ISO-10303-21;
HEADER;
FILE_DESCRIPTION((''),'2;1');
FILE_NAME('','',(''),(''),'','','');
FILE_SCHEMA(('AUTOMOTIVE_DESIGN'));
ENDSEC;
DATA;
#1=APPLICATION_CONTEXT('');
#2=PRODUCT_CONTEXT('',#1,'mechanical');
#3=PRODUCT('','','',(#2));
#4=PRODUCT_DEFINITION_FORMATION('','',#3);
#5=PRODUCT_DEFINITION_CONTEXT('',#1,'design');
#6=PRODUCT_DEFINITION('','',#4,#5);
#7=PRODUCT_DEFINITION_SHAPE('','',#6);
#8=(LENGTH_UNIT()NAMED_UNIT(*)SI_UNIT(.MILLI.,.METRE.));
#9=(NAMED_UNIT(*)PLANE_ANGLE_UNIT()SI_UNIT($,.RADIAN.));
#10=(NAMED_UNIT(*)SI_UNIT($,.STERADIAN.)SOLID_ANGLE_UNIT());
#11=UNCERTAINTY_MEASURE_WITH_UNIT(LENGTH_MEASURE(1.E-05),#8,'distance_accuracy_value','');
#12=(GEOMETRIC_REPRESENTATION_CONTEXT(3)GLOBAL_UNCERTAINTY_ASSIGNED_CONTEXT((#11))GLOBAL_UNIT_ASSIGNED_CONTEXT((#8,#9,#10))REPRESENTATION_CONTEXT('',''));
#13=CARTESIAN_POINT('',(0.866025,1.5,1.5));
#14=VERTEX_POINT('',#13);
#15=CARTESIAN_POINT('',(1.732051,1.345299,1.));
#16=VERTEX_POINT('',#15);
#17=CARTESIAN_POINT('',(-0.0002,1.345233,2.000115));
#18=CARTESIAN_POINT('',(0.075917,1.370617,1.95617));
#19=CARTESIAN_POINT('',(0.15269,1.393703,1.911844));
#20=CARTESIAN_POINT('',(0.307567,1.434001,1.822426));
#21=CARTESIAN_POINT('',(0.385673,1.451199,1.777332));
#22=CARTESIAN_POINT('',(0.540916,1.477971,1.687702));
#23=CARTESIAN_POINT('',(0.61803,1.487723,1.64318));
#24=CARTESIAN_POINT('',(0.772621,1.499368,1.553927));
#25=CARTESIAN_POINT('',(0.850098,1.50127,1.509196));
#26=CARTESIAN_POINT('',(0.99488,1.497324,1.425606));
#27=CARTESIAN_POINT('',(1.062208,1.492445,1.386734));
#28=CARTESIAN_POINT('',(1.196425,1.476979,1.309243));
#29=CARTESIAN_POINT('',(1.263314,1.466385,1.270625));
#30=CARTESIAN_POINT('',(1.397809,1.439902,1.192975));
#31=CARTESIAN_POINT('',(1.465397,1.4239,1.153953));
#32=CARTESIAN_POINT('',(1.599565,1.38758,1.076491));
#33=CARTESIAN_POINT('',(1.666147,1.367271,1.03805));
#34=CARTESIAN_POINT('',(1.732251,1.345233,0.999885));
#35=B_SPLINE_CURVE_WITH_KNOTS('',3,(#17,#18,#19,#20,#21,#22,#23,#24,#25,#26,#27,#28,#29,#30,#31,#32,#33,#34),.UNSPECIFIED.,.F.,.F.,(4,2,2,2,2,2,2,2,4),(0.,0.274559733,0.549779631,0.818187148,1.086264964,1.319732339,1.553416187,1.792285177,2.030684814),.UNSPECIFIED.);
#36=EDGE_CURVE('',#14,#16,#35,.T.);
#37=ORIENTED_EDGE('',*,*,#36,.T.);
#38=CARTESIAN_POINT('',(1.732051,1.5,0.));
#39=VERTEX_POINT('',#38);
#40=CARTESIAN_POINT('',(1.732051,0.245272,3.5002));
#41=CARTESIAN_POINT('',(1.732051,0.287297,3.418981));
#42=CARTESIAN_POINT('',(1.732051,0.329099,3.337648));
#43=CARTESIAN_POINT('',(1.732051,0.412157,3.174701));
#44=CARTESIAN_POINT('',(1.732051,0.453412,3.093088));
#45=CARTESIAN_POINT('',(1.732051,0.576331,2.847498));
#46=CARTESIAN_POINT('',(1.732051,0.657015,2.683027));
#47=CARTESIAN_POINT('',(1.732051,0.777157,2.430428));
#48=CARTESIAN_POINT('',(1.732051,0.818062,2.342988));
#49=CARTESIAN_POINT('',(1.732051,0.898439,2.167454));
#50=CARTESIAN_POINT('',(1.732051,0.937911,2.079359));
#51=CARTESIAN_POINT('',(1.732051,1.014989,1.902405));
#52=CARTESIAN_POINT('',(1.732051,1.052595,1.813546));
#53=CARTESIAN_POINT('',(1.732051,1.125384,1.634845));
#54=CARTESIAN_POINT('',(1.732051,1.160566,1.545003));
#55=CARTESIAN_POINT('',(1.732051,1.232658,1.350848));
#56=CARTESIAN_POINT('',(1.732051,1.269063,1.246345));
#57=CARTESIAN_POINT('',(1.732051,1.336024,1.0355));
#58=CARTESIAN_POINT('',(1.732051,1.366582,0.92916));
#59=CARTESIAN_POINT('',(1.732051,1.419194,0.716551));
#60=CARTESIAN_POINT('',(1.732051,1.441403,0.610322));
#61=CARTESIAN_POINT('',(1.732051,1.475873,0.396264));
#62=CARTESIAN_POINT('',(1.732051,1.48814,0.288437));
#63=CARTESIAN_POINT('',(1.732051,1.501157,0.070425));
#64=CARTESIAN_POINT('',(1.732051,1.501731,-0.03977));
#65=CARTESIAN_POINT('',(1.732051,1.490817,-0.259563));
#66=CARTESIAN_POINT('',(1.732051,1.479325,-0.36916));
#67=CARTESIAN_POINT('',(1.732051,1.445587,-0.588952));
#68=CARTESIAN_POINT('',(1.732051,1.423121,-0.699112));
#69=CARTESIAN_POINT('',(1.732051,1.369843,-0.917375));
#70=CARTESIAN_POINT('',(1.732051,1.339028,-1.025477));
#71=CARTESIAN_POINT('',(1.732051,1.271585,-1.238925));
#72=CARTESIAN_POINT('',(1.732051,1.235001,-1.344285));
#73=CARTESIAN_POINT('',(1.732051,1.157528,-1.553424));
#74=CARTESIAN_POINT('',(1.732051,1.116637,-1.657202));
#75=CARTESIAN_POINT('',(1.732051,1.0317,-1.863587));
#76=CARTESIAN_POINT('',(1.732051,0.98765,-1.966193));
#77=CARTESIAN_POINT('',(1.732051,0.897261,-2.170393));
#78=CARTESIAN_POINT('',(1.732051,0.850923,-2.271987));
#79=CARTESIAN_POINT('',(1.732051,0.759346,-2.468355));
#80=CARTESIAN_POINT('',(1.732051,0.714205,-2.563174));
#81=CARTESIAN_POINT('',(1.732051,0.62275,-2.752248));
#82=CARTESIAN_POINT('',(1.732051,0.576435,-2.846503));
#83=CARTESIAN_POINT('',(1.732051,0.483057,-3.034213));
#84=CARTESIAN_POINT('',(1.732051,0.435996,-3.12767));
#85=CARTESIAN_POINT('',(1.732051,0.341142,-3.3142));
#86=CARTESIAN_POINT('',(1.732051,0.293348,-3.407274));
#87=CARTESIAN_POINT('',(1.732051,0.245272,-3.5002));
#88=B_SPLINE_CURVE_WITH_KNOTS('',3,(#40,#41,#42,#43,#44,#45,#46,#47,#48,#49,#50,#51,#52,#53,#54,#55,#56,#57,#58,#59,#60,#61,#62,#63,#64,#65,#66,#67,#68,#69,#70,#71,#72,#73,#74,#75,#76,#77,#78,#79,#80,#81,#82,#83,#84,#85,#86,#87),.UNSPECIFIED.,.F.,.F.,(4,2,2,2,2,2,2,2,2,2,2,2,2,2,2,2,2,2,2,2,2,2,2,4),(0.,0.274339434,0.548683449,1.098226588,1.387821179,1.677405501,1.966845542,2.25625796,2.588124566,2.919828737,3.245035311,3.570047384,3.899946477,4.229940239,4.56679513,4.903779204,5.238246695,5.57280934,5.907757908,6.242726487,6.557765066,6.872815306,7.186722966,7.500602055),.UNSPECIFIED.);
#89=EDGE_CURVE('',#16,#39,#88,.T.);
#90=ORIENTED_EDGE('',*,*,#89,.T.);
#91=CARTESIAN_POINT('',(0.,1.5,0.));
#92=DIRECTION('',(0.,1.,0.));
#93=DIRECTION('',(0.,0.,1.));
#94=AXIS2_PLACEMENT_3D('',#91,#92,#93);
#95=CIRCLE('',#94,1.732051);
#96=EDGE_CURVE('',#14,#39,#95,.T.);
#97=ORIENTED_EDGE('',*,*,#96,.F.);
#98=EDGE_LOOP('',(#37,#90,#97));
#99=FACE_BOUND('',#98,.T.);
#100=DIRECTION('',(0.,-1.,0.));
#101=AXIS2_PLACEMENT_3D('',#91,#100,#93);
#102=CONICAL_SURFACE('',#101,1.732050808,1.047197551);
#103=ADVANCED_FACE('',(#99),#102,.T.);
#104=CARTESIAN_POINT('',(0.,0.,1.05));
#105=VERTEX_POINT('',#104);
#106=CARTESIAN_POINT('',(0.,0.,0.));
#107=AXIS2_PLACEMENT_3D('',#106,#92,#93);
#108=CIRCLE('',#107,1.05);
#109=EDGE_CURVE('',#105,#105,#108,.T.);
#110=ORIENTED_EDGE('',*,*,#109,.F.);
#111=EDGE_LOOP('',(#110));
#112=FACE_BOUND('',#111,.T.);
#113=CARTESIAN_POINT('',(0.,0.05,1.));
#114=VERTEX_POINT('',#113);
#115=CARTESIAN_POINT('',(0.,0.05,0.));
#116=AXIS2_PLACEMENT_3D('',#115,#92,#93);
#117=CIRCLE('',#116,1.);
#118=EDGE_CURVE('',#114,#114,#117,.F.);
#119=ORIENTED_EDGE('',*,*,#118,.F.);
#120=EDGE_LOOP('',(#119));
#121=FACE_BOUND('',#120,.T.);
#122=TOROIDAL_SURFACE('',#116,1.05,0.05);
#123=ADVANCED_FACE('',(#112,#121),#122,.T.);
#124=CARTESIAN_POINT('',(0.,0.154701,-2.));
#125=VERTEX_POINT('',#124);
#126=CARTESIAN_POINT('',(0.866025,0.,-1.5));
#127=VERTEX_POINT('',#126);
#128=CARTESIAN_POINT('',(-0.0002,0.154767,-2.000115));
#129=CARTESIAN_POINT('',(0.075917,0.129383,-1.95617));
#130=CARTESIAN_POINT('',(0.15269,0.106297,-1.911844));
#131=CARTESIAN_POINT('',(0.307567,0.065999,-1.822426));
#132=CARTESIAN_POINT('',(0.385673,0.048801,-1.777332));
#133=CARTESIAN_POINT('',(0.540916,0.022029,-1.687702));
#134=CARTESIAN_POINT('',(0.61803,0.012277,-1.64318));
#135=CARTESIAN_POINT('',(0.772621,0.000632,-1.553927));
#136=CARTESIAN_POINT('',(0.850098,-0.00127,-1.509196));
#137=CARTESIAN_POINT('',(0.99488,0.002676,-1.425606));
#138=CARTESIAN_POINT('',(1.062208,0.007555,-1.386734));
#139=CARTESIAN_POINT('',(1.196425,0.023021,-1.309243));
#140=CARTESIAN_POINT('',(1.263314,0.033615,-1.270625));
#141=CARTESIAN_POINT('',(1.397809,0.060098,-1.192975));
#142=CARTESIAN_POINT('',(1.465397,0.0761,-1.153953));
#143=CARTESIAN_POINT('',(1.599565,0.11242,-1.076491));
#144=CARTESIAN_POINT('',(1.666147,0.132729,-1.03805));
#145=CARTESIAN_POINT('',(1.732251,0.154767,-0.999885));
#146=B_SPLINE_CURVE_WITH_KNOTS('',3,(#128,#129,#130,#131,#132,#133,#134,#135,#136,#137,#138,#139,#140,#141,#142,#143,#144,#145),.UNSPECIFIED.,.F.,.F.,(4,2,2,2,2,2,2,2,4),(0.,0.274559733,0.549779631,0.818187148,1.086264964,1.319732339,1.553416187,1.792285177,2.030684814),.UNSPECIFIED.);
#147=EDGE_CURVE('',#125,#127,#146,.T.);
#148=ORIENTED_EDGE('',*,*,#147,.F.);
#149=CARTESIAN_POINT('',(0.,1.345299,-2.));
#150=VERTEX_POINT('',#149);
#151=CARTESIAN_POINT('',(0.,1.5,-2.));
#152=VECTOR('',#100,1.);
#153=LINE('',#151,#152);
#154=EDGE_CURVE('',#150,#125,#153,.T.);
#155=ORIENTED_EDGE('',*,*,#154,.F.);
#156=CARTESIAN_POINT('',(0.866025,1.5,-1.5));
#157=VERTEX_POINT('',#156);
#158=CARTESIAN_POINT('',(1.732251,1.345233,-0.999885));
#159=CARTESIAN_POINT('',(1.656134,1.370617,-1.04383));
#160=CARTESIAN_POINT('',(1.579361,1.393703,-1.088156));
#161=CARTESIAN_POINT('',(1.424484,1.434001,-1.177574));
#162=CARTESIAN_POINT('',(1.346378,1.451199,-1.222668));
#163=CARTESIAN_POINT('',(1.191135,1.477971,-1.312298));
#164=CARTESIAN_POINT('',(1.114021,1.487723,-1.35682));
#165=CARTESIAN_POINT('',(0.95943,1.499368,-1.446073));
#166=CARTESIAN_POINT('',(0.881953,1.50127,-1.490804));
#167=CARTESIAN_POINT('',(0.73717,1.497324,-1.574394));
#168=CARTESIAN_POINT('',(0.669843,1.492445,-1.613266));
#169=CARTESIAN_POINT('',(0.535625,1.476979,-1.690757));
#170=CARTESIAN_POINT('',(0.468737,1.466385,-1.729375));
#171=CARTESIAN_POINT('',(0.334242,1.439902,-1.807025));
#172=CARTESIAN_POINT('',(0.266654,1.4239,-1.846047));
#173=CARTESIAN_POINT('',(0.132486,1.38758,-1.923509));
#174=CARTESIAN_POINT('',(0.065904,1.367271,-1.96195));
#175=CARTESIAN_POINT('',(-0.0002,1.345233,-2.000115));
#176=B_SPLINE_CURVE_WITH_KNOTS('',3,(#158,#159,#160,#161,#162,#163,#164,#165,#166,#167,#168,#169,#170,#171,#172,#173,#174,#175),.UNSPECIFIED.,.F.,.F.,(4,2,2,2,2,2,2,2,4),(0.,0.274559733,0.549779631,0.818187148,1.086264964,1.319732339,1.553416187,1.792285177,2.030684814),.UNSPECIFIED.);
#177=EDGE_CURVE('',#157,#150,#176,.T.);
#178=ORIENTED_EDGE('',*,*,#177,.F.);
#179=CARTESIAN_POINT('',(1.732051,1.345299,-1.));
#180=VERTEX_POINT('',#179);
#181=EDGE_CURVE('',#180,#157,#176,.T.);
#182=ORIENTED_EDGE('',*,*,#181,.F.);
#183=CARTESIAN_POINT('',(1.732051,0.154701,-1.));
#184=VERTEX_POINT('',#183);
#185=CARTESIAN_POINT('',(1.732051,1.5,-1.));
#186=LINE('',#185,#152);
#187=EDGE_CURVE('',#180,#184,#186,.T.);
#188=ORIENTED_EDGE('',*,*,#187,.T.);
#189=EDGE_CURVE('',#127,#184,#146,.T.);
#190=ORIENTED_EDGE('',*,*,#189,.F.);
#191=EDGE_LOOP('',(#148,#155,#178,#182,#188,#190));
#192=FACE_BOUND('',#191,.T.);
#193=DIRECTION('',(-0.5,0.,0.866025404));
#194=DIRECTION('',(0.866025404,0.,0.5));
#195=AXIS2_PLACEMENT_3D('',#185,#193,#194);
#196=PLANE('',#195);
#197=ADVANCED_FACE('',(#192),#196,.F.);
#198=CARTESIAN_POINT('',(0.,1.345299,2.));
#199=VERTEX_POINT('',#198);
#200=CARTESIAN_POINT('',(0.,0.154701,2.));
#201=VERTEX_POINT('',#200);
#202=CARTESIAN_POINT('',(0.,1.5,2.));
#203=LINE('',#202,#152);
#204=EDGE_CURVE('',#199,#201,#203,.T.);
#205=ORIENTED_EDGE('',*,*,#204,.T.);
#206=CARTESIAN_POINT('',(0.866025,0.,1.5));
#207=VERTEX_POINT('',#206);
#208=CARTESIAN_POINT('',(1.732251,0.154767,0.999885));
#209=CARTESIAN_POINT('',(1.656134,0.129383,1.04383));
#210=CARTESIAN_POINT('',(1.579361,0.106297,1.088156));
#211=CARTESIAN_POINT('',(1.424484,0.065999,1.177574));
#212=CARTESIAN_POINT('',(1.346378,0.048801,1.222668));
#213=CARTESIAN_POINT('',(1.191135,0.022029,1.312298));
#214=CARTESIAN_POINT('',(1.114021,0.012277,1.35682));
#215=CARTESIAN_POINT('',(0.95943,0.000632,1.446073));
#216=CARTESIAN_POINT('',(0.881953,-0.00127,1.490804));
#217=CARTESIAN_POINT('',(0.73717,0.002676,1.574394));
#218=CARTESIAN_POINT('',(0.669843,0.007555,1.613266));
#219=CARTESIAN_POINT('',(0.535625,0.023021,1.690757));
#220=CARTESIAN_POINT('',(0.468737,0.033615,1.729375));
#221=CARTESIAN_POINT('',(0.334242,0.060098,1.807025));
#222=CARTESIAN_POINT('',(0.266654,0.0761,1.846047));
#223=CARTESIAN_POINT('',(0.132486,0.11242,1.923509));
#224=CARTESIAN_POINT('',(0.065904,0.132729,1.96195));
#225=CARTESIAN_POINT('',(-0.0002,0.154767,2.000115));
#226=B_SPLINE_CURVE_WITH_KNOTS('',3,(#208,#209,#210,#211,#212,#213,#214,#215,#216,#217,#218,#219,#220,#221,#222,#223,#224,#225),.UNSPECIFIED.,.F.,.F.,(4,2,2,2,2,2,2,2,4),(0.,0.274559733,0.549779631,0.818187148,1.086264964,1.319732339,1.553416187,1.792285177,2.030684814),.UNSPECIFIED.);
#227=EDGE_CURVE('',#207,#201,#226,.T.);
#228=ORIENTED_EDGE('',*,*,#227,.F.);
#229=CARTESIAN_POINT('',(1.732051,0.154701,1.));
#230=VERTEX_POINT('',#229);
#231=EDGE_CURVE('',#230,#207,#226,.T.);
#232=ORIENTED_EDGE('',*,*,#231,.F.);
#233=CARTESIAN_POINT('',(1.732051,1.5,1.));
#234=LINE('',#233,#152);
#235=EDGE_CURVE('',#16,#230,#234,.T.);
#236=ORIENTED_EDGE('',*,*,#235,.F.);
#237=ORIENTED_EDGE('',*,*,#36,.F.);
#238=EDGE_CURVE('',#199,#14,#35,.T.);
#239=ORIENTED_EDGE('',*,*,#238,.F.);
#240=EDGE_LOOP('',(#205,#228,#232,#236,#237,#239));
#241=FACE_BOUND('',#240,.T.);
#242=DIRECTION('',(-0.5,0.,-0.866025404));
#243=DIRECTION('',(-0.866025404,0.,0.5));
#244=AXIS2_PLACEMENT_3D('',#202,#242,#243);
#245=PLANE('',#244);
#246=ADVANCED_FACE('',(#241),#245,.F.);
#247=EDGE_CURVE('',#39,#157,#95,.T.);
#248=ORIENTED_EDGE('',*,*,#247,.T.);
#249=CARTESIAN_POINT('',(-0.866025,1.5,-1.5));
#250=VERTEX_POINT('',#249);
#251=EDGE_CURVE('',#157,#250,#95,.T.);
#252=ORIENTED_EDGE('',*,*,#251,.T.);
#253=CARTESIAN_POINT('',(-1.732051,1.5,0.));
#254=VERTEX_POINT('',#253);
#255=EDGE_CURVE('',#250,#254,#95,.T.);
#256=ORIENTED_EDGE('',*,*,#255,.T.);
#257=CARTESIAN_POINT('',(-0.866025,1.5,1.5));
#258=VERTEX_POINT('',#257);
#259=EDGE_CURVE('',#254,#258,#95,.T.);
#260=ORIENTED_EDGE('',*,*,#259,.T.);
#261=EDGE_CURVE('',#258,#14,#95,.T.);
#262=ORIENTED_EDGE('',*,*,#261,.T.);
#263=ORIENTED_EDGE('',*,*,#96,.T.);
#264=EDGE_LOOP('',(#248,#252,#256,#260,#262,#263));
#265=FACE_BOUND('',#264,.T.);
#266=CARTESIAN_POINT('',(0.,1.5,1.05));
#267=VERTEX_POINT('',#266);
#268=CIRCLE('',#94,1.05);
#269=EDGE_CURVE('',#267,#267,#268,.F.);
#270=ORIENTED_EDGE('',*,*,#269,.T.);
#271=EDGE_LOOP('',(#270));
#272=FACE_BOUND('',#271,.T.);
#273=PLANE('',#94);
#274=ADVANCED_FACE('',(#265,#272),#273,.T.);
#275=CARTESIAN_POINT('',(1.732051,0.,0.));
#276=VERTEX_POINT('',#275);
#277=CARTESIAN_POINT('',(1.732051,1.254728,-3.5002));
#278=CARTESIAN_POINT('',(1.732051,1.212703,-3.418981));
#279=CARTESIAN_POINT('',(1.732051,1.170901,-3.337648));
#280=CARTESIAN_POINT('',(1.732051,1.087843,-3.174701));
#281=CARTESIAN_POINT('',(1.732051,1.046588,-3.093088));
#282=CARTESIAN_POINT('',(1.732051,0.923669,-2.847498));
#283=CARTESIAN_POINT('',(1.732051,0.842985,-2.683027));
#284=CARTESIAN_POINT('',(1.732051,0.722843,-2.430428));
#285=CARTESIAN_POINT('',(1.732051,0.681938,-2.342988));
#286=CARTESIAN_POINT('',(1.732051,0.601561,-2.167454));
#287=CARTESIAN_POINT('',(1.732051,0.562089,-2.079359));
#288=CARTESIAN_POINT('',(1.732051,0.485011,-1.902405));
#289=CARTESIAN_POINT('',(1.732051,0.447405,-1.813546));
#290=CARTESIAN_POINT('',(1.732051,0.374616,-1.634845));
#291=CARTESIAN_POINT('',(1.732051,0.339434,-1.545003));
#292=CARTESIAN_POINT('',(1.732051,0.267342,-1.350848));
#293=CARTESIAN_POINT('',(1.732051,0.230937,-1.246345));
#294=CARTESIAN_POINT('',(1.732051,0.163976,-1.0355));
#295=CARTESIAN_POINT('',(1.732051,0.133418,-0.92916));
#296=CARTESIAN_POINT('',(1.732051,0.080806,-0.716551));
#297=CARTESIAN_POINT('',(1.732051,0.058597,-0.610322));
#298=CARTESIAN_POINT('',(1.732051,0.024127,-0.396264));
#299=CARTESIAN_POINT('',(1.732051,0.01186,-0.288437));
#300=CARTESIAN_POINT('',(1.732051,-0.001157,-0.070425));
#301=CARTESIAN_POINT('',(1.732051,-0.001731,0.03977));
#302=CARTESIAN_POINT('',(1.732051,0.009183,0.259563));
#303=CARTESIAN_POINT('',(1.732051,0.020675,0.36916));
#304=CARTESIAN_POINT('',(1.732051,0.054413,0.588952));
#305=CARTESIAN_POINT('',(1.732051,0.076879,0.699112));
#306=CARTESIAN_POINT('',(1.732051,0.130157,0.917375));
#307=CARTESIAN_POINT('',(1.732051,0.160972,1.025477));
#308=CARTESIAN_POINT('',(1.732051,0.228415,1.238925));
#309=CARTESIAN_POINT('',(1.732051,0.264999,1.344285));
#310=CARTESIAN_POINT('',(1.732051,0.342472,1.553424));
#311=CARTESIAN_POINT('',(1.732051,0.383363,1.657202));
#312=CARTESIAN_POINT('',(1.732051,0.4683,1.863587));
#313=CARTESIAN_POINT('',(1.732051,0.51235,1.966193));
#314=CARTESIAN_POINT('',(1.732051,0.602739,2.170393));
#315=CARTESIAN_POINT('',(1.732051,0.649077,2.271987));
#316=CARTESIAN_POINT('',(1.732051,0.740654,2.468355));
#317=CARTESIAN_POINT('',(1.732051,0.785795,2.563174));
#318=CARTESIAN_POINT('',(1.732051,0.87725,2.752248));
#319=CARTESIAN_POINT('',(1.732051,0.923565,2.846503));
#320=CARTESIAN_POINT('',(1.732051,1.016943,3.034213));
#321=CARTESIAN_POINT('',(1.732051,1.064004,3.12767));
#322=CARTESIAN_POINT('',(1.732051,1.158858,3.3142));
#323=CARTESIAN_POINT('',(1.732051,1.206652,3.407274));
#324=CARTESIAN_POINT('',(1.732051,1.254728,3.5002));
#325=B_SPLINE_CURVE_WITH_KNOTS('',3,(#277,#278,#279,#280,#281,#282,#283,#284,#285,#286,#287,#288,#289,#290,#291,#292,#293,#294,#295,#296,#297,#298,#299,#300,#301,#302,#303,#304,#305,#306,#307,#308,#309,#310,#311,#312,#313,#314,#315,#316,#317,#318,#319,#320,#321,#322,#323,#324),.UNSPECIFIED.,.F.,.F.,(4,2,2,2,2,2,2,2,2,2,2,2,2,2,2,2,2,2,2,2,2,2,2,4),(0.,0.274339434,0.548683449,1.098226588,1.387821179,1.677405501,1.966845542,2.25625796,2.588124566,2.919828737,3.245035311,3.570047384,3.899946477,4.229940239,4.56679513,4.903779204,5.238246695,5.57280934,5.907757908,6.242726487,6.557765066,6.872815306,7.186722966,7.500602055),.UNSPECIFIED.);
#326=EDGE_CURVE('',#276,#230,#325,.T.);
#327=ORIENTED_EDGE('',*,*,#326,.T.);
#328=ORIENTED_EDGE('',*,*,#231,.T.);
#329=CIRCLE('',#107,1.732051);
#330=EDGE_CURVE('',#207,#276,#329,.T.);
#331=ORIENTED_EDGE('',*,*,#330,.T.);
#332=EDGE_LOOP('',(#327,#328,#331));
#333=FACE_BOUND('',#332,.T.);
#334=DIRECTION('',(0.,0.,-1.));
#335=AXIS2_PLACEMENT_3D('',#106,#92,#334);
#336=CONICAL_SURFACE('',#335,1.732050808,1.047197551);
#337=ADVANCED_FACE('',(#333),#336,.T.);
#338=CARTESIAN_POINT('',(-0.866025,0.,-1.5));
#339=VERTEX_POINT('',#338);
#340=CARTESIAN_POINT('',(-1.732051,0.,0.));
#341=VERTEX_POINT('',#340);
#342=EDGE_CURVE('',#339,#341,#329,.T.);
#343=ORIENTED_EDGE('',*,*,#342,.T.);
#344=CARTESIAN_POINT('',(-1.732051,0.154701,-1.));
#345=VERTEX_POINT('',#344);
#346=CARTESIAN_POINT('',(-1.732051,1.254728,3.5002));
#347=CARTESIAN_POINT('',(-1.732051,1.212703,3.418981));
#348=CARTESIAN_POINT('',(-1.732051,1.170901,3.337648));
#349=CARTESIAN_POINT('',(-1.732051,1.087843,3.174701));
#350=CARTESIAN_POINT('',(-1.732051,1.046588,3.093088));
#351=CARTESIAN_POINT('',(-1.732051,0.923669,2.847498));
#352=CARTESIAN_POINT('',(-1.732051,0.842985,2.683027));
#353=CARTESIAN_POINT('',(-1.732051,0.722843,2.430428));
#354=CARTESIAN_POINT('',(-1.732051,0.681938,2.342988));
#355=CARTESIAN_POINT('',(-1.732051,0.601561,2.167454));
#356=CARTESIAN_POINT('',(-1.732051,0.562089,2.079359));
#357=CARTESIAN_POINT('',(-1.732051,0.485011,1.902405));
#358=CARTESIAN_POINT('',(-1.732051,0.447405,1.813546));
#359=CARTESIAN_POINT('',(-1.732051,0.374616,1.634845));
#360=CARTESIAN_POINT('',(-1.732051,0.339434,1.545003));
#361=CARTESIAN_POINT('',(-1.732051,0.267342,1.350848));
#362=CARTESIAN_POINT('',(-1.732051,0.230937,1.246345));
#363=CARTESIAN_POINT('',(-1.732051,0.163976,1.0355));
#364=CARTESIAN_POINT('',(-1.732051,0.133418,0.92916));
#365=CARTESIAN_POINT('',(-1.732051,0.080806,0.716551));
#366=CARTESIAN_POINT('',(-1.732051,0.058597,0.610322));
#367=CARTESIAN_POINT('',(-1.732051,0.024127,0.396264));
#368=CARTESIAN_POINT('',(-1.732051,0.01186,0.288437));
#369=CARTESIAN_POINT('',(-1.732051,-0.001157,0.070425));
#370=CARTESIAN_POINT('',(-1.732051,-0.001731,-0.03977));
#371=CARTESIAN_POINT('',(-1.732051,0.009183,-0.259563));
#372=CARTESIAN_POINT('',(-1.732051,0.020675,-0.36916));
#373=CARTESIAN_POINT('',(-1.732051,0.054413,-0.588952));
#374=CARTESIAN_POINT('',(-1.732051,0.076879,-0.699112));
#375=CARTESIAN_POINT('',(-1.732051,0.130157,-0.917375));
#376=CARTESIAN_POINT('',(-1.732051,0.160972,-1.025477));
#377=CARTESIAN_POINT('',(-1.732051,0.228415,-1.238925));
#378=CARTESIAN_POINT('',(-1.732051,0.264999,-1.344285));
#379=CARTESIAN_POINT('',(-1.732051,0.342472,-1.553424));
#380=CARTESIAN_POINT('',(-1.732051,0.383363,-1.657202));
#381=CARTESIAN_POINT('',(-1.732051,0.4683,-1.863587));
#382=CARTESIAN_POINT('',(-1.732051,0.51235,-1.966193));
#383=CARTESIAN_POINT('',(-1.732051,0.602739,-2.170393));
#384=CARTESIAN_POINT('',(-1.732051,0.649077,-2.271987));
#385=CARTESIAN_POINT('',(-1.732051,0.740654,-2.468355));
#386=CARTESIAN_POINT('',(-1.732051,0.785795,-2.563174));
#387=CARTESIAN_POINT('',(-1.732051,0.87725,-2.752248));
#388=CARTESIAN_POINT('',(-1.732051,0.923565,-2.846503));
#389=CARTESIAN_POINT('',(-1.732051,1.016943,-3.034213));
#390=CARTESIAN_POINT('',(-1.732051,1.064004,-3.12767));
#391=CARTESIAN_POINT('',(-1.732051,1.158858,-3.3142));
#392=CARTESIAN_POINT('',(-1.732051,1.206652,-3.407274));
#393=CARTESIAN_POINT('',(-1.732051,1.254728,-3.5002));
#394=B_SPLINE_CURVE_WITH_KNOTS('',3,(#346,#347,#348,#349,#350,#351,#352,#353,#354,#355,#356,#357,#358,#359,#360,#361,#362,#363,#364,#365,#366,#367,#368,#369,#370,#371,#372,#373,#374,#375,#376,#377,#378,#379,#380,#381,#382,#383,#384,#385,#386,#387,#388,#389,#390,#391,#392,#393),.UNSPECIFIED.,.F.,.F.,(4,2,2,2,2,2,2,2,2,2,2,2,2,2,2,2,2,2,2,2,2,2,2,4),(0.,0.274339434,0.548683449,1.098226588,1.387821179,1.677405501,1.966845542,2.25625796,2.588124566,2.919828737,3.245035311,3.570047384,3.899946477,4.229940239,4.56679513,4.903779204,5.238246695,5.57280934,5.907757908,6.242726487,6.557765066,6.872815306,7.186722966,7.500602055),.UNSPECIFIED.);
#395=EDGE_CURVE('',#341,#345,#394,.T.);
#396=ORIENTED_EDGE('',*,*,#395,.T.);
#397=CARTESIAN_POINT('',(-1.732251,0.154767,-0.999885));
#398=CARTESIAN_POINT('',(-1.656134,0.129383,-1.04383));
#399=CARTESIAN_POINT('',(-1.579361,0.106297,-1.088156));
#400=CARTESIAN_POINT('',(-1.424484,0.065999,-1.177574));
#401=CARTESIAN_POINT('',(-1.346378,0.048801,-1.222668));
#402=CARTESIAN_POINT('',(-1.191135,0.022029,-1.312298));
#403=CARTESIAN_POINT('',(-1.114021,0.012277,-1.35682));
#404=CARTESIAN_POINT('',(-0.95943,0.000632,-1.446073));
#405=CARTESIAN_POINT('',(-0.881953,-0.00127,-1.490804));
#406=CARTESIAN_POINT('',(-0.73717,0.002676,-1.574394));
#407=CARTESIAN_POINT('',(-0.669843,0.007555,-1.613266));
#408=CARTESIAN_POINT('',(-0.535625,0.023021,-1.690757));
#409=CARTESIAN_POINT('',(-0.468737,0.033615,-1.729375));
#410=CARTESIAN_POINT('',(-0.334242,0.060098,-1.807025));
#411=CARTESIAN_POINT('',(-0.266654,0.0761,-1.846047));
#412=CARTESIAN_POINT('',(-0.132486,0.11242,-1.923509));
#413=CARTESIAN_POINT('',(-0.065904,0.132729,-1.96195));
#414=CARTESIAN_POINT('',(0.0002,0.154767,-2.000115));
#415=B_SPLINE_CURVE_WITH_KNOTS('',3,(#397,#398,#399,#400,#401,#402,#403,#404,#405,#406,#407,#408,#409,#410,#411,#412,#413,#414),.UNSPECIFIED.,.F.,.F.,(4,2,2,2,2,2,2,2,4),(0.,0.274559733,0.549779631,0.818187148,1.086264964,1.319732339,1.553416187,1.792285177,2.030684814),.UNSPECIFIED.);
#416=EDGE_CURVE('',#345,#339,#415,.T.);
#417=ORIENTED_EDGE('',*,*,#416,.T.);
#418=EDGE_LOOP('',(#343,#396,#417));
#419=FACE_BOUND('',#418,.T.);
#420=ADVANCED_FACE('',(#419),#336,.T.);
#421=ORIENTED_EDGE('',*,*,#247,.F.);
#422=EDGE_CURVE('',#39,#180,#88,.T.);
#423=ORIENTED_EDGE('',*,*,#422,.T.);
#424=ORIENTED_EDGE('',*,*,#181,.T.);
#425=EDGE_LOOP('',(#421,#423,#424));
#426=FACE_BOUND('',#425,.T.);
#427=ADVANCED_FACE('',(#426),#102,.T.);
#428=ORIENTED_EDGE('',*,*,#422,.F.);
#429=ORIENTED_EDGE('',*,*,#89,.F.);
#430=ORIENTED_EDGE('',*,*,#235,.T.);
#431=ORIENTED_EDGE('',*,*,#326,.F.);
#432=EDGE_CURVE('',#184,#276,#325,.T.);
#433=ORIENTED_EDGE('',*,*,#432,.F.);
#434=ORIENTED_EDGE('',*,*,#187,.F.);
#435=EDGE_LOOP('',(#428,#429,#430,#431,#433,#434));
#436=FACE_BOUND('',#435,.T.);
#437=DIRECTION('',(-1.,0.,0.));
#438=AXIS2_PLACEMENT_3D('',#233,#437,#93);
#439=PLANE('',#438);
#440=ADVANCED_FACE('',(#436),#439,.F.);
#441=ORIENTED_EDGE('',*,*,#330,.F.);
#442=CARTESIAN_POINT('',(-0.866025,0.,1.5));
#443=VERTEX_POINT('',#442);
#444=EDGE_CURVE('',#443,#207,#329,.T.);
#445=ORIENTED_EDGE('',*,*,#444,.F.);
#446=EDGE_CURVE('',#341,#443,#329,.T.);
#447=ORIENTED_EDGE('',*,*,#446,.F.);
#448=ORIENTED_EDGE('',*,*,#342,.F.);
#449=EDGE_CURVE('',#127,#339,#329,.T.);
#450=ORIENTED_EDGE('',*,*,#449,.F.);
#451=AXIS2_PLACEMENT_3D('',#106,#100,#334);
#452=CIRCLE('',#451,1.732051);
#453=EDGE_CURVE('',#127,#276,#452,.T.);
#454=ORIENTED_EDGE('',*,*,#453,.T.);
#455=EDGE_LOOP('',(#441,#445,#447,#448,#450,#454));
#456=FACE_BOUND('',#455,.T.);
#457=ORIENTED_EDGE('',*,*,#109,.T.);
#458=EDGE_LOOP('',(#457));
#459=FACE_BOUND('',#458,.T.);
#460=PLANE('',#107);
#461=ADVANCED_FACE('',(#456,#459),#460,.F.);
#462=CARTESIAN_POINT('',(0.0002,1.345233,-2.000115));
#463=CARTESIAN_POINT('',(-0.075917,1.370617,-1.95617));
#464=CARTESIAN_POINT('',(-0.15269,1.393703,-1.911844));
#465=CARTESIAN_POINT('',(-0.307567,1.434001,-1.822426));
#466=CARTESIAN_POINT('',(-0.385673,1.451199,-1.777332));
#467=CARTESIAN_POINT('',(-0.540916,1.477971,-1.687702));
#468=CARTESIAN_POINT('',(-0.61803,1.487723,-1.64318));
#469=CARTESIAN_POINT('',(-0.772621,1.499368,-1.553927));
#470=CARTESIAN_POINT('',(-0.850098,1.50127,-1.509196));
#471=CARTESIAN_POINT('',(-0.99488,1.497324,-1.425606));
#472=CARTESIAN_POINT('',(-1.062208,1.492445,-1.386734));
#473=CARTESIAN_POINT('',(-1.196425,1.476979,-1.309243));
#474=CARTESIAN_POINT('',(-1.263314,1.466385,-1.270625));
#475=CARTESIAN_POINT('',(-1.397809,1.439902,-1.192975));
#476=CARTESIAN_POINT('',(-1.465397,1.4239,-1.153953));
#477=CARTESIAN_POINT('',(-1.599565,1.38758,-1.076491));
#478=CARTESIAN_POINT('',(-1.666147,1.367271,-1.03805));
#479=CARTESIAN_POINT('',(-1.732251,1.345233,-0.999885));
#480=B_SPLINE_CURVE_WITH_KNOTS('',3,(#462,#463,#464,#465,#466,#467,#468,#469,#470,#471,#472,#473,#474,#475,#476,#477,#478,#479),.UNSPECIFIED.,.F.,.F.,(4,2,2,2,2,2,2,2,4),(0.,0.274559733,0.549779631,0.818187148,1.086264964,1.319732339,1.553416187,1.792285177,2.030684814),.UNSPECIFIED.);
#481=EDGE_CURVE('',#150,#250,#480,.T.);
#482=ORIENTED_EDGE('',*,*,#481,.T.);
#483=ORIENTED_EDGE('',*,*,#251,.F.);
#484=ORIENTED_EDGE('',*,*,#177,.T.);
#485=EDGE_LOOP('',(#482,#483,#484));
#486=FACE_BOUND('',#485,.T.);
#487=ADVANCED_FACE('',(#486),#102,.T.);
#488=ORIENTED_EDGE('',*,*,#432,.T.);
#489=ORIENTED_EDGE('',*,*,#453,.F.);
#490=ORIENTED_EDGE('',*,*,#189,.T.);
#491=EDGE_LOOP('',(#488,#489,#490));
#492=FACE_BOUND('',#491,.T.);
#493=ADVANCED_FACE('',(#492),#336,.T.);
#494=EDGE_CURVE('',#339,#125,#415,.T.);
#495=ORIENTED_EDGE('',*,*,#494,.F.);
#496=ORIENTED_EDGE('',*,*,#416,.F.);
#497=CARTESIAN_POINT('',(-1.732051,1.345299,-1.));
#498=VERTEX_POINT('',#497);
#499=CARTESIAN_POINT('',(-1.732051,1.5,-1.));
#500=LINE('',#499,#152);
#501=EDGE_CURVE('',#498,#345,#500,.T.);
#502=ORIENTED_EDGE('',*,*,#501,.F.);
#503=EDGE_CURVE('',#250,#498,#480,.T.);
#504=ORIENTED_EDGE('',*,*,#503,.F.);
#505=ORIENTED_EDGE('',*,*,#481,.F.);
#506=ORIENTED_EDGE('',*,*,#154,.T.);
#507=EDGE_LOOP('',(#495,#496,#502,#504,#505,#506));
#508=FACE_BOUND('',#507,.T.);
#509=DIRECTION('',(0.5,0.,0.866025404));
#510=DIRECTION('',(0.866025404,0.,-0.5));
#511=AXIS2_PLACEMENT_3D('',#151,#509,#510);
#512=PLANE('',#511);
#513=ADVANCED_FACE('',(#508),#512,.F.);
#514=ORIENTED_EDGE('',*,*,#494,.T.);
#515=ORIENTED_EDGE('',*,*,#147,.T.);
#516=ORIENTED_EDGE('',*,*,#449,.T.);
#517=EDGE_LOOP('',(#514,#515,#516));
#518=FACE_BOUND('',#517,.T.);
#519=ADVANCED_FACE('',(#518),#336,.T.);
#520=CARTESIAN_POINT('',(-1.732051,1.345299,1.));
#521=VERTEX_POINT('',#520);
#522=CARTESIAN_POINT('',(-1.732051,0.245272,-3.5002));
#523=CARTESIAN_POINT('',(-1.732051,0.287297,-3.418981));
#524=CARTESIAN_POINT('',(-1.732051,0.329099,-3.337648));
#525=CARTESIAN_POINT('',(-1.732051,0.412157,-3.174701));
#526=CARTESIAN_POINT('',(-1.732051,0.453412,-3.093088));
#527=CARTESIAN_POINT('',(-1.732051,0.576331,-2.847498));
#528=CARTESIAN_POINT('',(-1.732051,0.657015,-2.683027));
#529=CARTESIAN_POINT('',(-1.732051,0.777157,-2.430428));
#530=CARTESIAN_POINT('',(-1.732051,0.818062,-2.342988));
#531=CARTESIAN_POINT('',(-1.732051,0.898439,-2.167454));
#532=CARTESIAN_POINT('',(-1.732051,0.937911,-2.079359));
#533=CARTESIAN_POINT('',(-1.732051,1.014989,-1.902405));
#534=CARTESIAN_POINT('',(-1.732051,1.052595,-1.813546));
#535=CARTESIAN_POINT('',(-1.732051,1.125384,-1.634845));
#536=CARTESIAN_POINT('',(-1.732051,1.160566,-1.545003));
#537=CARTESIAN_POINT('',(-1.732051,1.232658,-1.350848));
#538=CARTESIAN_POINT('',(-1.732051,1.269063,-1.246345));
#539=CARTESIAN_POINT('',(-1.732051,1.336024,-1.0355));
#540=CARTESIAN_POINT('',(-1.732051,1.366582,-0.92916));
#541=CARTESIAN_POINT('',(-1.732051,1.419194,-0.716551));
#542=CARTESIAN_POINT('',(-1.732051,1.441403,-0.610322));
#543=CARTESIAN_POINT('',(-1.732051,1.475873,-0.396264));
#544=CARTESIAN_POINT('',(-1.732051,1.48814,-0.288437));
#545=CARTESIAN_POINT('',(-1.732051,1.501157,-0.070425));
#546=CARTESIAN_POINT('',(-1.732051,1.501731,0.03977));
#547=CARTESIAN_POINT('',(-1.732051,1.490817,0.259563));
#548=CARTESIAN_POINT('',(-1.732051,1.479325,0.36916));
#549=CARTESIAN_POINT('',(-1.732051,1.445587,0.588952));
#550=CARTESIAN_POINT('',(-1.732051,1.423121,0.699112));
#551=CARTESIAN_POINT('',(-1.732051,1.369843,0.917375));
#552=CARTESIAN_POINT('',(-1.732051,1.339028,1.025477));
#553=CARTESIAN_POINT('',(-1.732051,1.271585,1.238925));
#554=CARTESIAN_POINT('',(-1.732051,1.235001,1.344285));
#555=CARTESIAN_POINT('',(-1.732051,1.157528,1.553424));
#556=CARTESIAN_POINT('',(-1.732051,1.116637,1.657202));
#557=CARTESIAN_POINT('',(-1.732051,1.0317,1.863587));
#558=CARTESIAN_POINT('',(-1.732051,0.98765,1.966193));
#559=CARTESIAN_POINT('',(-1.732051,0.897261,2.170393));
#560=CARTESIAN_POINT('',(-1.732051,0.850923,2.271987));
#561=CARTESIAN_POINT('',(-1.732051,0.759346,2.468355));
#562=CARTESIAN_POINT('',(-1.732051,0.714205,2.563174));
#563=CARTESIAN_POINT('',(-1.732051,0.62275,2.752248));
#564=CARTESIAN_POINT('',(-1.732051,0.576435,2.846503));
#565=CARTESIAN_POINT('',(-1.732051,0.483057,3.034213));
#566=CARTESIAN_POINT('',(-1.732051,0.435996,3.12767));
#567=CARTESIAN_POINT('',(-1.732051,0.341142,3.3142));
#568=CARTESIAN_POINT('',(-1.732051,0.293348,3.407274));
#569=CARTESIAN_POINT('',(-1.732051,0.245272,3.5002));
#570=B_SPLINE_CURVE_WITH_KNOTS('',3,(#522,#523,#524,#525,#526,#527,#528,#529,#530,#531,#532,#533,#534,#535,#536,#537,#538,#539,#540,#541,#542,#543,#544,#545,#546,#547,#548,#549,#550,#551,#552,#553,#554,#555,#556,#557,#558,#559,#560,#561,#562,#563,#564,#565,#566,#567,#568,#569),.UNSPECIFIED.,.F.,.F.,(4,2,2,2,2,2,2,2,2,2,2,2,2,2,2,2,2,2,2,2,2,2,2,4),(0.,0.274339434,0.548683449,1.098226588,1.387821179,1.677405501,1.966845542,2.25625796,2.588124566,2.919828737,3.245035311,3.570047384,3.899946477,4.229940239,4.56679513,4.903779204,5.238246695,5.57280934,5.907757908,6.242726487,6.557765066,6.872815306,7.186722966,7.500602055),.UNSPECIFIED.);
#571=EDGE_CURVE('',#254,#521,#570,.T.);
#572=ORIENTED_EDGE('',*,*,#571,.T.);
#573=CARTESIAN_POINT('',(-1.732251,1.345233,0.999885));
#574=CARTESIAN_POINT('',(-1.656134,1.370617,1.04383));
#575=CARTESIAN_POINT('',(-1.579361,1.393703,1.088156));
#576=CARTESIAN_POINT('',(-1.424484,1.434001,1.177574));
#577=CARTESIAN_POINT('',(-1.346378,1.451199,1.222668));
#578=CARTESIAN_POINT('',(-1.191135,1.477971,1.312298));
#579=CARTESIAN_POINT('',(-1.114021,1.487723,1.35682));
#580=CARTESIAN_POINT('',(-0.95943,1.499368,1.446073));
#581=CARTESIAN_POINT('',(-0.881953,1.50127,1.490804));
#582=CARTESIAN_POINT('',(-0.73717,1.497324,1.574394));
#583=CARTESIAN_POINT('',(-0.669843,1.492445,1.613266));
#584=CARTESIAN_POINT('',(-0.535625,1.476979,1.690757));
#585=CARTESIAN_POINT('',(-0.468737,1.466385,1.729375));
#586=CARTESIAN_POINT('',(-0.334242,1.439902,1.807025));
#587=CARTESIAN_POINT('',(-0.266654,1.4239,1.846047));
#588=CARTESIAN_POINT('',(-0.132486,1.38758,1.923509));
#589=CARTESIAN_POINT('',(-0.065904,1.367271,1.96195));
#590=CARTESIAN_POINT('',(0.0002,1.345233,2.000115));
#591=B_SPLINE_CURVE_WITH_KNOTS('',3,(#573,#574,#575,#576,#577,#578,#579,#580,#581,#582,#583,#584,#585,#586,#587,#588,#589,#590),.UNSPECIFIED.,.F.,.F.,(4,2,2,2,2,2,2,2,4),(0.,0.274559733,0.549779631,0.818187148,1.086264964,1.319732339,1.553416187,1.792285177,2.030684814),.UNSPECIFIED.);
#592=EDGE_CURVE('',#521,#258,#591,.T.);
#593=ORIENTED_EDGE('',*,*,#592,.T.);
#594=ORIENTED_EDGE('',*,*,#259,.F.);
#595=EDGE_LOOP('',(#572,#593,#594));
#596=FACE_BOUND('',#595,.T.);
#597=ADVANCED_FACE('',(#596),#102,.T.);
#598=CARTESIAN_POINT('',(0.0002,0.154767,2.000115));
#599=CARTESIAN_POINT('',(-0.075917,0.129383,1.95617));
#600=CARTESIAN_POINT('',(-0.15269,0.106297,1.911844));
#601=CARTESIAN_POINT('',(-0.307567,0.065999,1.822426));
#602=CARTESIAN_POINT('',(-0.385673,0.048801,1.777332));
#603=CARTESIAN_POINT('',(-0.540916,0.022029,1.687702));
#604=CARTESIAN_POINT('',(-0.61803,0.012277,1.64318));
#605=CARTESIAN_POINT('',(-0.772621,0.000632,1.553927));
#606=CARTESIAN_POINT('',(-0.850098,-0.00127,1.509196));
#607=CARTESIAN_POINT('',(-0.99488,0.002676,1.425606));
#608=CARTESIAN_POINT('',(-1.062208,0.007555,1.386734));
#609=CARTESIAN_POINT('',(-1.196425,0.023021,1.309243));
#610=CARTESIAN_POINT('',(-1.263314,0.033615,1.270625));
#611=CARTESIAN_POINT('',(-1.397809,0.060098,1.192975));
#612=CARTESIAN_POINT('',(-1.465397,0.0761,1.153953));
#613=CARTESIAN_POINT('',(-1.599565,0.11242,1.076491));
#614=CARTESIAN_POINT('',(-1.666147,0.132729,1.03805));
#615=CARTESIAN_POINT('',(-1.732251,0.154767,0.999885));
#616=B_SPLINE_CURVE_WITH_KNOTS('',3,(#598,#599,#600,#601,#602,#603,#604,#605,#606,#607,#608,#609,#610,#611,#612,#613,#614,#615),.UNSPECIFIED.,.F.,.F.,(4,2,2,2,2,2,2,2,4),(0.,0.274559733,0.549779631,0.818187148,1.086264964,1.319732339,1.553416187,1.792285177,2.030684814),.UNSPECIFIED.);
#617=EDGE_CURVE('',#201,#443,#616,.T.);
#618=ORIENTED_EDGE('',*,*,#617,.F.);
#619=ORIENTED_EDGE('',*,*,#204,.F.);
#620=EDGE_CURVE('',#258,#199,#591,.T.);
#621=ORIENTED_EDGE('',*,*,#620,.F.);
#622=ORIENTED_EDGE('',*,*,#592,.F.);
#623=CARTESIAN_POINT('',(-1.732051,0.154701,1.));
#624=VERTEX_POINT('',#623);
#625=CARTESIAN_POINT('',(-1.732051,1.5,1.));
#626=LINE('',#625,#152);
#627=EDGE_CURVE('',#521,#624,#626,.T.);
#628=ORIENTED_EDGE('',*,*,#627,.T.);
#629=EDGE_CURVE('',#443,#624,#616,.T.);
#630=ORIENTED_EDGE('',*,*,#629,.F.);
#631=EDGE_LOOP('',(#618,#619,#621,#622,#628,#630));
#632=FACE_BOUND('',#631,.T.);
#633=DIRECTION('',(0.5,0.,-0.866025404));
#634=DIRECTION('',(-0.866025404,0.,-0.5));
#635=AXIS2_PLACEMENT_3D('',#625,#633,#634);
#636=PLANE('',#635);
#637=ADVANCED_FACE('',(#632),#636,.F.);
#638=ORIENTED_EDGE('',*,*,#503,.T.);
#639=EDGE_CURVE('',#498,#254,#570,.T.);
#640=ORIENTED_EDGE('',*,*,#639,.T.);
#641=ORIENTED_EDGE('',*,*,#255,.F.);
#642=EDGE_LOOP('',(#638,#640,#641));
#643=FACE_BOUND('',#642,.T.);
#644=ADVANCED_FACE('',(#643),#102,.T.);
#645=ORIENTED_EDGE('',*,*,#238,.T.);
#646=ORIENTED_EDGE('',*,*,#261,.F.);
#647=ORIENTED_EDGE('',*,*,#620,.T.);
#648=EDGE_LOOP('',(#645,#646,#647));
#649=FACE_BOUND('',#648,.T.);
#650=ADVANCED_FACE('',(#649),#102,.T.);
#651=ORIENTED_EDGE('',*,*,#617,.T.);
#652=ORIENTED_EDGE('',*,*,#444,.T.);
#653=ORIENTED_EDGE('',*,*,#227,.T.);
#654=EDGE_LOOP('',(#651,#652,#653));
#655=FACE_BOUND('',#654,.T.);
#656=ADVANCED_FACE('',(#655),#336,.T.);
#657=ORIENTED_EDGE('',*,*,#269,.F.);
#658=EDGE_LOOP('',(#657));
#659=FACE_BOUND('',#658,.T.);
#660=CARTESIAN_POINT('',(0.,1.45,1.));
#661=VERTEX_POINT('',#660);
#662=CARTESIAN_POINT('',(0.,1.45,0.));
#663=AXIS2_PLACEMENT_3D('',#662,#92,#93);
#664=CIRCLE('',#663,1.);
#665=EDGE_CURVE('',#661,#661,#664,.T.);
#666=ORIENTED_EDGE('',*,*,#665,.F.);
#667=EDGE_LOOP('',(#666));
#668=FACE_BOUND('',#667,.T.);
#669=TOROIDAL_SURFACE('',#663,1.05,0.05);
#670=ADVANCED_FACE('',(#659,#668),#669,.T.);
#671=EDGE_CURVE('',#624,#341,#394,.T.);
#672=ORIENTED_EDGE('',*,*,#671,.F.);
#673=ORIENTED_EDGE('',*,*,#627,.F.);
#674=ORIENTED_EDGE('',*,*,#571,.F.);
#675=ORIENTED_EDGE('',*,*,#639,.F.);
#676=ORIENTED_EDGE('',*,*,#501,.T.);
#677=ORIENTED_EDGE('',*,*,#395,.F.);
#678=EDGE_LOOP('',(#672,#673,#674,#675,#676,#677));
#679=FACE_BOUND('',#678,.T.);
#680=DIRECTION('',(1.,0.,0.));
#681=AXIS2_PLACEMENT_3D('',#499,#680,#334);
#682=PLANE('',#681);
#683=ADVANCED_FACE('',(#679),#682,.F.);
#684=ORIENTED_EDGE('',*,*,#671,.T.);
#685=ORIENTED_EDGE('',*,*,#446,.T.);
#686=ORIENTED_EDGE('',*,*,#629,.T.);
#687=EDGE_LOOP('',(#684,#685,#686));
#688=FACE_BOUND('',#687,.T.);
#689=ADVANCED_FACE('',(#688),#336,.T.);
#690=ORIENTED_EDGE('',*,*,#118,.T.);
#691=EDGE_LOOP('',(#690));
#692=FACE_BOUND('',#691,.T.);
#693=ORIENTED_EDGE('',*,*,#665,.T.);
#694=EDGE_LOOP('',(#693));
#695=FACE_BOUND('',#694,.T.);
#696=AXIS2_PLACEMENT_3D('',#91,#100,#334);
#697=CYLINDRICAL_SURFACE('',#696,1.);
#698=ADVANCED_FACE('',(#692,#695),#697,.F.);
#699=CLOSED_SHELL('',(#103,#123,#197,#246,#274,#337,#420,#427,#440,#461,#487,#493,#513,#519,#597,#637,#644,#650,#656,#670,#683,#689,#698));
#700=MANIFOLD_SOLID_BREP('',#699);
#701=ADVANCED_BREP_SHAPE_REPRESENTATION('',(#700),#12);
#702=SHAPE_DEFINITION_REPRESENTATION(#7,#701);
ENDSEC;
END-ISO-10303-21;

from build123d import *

# Parameters (mm, degrees)
SKETCH1_R           = 1
BOSS_EXTRUDE1_DEPTH = 1.5
SKETCH2_OUTSIDE_W   = 13.492
SKETCH2_OUTSIDE_H   = 14.028
SKETCH2_OUTSIDE_R   = 1.732050808
CUT_EXTRUDE1_DEPTH  = 2
CUT_EXTRUDE1_DRAFT  = -60
SKETCH3_OUTSIDE_W   = 13.492
SKETCH3_OUTSIDE_H   = 14.028
SKETCH3_OUTSIDE_R   = 1.732050808
CUT_EXTRUDE2_DEPTH  = 2
CUT_EXTRUDE2_DRAFT  = -60
FILLET1_R           = 0.05


with BuildPart() as part:
    # Sketch1 → Boss-Extrude1 (new body)
    with BuildSketch(Plane(origin=(0, 0, 0), x_dir=(1, 0, 0), z_dir=(0, 1, 0))):
        Polygon((0, 2), (-1.732050808, 1), (-1.732050808, -1), (0, -2), (1.732050808, -1), (1.732050808, 1), align=None)
        with Locations(Location((0, 0, 0), (0, 0, 270))):
            Circle(SKETCH1_R, mode=Mode.SUBTRACT)
    extrude(amount=BOSS_EXTRUDE1_DEPTH)


with BuildPart() as cut_extrude1_tool:
    # Sketch2 outside → Cut-Extrude1 (with draft: the straight prism first)
    with BuildSketch(Plane(origin=(0, 1.5, 0), x_dir=(1, 0, 0), z_dir=(0, 1, 0))):
        Rectangle(SKETCH2_OUTSIDE_W, SKETCH2_OUTSIDE_H)
        Circle(SKETCH2_OUTSIDE_R, mode=Mode.SUBTRACT)
    extrude(amount=-CUT_EXTRUDE1_DEPTH)
    # Cut-Extrude1: the draft: its side faces are tilted about the plane it starts from
    cut_extrude1_sides = [cut_extrude1_tool.faces().sort_by_distance(p)[0] for p in [
        (0, 0.5, 7.014),
        (6.746, 0.5, 0),
        (0, 0.5, -7.014),
        (-6.746, 0.5, 0),
        (-1.732050808, 0.5, 0),
    ]]
    draft(cut_extrude1_sides, Plane(origin=(0, 1.5, 0), x_dir=(1, 0, 0), z_dir=(0, 1, 0)), CUT_EXTRUDE1_DRAFT)


with BuildPart() as part_1:
    add(part.part)

    # Cut-Extrude1: cut by cut_extrude1_tool
    add(cut_extrude1_tool.part, mode=Mode.SUBTRACT)


with BuildPart() as cut_extrude2_tool:
    # Sketch3 outside → Cut-Extrude2 (with draft: the straight prism first)
    with BuildSketch(Plane.XZ):
        Rectangle(SKETCH3_OUTSIDE_W, SKETCH3_OUTSIDE_H)
        Circle(SKETCH3_OUTSIDE_R, mode=Mode.SUBTRACT)
    extrude(amount=-CUT_EXTRUDE2_DEPTH)
    # Cut-Extrude2: the draft: its side faces are tilted about the plane it starts from
    cut_extrude2_sides = [cut_extrude2_tool.faces().sort_by_distance(p)[0] for p in [
        (0, 1, -7.014),
        (6.746, 1, 0),
        (0, 1, 7.014),
        (-6.746, 1, 0),
        (-1.732050808, 1, 0),
    ]]
    draft(cut_extrude2_sides, Plane.XZ, CUT_EXTRUDE2_DRAFT)


with BuildPart() as part_2:
    add(part_1.part)

    # Cut-Extrude2: cut by cut_extrude2_tool
    add(cut_extrude2_tool.part, mode=Mode.SUBTRACT)

    # Fillet1
    fillet1_edges = [part_2.edges().sort_by_distance(p)[0] for p in [
        (0, 0, -1),
        (0, 1.5, -1),
    ]]
    fillet(fillet1_edges, radius=FILLET1_R)


solid = part_2.part
